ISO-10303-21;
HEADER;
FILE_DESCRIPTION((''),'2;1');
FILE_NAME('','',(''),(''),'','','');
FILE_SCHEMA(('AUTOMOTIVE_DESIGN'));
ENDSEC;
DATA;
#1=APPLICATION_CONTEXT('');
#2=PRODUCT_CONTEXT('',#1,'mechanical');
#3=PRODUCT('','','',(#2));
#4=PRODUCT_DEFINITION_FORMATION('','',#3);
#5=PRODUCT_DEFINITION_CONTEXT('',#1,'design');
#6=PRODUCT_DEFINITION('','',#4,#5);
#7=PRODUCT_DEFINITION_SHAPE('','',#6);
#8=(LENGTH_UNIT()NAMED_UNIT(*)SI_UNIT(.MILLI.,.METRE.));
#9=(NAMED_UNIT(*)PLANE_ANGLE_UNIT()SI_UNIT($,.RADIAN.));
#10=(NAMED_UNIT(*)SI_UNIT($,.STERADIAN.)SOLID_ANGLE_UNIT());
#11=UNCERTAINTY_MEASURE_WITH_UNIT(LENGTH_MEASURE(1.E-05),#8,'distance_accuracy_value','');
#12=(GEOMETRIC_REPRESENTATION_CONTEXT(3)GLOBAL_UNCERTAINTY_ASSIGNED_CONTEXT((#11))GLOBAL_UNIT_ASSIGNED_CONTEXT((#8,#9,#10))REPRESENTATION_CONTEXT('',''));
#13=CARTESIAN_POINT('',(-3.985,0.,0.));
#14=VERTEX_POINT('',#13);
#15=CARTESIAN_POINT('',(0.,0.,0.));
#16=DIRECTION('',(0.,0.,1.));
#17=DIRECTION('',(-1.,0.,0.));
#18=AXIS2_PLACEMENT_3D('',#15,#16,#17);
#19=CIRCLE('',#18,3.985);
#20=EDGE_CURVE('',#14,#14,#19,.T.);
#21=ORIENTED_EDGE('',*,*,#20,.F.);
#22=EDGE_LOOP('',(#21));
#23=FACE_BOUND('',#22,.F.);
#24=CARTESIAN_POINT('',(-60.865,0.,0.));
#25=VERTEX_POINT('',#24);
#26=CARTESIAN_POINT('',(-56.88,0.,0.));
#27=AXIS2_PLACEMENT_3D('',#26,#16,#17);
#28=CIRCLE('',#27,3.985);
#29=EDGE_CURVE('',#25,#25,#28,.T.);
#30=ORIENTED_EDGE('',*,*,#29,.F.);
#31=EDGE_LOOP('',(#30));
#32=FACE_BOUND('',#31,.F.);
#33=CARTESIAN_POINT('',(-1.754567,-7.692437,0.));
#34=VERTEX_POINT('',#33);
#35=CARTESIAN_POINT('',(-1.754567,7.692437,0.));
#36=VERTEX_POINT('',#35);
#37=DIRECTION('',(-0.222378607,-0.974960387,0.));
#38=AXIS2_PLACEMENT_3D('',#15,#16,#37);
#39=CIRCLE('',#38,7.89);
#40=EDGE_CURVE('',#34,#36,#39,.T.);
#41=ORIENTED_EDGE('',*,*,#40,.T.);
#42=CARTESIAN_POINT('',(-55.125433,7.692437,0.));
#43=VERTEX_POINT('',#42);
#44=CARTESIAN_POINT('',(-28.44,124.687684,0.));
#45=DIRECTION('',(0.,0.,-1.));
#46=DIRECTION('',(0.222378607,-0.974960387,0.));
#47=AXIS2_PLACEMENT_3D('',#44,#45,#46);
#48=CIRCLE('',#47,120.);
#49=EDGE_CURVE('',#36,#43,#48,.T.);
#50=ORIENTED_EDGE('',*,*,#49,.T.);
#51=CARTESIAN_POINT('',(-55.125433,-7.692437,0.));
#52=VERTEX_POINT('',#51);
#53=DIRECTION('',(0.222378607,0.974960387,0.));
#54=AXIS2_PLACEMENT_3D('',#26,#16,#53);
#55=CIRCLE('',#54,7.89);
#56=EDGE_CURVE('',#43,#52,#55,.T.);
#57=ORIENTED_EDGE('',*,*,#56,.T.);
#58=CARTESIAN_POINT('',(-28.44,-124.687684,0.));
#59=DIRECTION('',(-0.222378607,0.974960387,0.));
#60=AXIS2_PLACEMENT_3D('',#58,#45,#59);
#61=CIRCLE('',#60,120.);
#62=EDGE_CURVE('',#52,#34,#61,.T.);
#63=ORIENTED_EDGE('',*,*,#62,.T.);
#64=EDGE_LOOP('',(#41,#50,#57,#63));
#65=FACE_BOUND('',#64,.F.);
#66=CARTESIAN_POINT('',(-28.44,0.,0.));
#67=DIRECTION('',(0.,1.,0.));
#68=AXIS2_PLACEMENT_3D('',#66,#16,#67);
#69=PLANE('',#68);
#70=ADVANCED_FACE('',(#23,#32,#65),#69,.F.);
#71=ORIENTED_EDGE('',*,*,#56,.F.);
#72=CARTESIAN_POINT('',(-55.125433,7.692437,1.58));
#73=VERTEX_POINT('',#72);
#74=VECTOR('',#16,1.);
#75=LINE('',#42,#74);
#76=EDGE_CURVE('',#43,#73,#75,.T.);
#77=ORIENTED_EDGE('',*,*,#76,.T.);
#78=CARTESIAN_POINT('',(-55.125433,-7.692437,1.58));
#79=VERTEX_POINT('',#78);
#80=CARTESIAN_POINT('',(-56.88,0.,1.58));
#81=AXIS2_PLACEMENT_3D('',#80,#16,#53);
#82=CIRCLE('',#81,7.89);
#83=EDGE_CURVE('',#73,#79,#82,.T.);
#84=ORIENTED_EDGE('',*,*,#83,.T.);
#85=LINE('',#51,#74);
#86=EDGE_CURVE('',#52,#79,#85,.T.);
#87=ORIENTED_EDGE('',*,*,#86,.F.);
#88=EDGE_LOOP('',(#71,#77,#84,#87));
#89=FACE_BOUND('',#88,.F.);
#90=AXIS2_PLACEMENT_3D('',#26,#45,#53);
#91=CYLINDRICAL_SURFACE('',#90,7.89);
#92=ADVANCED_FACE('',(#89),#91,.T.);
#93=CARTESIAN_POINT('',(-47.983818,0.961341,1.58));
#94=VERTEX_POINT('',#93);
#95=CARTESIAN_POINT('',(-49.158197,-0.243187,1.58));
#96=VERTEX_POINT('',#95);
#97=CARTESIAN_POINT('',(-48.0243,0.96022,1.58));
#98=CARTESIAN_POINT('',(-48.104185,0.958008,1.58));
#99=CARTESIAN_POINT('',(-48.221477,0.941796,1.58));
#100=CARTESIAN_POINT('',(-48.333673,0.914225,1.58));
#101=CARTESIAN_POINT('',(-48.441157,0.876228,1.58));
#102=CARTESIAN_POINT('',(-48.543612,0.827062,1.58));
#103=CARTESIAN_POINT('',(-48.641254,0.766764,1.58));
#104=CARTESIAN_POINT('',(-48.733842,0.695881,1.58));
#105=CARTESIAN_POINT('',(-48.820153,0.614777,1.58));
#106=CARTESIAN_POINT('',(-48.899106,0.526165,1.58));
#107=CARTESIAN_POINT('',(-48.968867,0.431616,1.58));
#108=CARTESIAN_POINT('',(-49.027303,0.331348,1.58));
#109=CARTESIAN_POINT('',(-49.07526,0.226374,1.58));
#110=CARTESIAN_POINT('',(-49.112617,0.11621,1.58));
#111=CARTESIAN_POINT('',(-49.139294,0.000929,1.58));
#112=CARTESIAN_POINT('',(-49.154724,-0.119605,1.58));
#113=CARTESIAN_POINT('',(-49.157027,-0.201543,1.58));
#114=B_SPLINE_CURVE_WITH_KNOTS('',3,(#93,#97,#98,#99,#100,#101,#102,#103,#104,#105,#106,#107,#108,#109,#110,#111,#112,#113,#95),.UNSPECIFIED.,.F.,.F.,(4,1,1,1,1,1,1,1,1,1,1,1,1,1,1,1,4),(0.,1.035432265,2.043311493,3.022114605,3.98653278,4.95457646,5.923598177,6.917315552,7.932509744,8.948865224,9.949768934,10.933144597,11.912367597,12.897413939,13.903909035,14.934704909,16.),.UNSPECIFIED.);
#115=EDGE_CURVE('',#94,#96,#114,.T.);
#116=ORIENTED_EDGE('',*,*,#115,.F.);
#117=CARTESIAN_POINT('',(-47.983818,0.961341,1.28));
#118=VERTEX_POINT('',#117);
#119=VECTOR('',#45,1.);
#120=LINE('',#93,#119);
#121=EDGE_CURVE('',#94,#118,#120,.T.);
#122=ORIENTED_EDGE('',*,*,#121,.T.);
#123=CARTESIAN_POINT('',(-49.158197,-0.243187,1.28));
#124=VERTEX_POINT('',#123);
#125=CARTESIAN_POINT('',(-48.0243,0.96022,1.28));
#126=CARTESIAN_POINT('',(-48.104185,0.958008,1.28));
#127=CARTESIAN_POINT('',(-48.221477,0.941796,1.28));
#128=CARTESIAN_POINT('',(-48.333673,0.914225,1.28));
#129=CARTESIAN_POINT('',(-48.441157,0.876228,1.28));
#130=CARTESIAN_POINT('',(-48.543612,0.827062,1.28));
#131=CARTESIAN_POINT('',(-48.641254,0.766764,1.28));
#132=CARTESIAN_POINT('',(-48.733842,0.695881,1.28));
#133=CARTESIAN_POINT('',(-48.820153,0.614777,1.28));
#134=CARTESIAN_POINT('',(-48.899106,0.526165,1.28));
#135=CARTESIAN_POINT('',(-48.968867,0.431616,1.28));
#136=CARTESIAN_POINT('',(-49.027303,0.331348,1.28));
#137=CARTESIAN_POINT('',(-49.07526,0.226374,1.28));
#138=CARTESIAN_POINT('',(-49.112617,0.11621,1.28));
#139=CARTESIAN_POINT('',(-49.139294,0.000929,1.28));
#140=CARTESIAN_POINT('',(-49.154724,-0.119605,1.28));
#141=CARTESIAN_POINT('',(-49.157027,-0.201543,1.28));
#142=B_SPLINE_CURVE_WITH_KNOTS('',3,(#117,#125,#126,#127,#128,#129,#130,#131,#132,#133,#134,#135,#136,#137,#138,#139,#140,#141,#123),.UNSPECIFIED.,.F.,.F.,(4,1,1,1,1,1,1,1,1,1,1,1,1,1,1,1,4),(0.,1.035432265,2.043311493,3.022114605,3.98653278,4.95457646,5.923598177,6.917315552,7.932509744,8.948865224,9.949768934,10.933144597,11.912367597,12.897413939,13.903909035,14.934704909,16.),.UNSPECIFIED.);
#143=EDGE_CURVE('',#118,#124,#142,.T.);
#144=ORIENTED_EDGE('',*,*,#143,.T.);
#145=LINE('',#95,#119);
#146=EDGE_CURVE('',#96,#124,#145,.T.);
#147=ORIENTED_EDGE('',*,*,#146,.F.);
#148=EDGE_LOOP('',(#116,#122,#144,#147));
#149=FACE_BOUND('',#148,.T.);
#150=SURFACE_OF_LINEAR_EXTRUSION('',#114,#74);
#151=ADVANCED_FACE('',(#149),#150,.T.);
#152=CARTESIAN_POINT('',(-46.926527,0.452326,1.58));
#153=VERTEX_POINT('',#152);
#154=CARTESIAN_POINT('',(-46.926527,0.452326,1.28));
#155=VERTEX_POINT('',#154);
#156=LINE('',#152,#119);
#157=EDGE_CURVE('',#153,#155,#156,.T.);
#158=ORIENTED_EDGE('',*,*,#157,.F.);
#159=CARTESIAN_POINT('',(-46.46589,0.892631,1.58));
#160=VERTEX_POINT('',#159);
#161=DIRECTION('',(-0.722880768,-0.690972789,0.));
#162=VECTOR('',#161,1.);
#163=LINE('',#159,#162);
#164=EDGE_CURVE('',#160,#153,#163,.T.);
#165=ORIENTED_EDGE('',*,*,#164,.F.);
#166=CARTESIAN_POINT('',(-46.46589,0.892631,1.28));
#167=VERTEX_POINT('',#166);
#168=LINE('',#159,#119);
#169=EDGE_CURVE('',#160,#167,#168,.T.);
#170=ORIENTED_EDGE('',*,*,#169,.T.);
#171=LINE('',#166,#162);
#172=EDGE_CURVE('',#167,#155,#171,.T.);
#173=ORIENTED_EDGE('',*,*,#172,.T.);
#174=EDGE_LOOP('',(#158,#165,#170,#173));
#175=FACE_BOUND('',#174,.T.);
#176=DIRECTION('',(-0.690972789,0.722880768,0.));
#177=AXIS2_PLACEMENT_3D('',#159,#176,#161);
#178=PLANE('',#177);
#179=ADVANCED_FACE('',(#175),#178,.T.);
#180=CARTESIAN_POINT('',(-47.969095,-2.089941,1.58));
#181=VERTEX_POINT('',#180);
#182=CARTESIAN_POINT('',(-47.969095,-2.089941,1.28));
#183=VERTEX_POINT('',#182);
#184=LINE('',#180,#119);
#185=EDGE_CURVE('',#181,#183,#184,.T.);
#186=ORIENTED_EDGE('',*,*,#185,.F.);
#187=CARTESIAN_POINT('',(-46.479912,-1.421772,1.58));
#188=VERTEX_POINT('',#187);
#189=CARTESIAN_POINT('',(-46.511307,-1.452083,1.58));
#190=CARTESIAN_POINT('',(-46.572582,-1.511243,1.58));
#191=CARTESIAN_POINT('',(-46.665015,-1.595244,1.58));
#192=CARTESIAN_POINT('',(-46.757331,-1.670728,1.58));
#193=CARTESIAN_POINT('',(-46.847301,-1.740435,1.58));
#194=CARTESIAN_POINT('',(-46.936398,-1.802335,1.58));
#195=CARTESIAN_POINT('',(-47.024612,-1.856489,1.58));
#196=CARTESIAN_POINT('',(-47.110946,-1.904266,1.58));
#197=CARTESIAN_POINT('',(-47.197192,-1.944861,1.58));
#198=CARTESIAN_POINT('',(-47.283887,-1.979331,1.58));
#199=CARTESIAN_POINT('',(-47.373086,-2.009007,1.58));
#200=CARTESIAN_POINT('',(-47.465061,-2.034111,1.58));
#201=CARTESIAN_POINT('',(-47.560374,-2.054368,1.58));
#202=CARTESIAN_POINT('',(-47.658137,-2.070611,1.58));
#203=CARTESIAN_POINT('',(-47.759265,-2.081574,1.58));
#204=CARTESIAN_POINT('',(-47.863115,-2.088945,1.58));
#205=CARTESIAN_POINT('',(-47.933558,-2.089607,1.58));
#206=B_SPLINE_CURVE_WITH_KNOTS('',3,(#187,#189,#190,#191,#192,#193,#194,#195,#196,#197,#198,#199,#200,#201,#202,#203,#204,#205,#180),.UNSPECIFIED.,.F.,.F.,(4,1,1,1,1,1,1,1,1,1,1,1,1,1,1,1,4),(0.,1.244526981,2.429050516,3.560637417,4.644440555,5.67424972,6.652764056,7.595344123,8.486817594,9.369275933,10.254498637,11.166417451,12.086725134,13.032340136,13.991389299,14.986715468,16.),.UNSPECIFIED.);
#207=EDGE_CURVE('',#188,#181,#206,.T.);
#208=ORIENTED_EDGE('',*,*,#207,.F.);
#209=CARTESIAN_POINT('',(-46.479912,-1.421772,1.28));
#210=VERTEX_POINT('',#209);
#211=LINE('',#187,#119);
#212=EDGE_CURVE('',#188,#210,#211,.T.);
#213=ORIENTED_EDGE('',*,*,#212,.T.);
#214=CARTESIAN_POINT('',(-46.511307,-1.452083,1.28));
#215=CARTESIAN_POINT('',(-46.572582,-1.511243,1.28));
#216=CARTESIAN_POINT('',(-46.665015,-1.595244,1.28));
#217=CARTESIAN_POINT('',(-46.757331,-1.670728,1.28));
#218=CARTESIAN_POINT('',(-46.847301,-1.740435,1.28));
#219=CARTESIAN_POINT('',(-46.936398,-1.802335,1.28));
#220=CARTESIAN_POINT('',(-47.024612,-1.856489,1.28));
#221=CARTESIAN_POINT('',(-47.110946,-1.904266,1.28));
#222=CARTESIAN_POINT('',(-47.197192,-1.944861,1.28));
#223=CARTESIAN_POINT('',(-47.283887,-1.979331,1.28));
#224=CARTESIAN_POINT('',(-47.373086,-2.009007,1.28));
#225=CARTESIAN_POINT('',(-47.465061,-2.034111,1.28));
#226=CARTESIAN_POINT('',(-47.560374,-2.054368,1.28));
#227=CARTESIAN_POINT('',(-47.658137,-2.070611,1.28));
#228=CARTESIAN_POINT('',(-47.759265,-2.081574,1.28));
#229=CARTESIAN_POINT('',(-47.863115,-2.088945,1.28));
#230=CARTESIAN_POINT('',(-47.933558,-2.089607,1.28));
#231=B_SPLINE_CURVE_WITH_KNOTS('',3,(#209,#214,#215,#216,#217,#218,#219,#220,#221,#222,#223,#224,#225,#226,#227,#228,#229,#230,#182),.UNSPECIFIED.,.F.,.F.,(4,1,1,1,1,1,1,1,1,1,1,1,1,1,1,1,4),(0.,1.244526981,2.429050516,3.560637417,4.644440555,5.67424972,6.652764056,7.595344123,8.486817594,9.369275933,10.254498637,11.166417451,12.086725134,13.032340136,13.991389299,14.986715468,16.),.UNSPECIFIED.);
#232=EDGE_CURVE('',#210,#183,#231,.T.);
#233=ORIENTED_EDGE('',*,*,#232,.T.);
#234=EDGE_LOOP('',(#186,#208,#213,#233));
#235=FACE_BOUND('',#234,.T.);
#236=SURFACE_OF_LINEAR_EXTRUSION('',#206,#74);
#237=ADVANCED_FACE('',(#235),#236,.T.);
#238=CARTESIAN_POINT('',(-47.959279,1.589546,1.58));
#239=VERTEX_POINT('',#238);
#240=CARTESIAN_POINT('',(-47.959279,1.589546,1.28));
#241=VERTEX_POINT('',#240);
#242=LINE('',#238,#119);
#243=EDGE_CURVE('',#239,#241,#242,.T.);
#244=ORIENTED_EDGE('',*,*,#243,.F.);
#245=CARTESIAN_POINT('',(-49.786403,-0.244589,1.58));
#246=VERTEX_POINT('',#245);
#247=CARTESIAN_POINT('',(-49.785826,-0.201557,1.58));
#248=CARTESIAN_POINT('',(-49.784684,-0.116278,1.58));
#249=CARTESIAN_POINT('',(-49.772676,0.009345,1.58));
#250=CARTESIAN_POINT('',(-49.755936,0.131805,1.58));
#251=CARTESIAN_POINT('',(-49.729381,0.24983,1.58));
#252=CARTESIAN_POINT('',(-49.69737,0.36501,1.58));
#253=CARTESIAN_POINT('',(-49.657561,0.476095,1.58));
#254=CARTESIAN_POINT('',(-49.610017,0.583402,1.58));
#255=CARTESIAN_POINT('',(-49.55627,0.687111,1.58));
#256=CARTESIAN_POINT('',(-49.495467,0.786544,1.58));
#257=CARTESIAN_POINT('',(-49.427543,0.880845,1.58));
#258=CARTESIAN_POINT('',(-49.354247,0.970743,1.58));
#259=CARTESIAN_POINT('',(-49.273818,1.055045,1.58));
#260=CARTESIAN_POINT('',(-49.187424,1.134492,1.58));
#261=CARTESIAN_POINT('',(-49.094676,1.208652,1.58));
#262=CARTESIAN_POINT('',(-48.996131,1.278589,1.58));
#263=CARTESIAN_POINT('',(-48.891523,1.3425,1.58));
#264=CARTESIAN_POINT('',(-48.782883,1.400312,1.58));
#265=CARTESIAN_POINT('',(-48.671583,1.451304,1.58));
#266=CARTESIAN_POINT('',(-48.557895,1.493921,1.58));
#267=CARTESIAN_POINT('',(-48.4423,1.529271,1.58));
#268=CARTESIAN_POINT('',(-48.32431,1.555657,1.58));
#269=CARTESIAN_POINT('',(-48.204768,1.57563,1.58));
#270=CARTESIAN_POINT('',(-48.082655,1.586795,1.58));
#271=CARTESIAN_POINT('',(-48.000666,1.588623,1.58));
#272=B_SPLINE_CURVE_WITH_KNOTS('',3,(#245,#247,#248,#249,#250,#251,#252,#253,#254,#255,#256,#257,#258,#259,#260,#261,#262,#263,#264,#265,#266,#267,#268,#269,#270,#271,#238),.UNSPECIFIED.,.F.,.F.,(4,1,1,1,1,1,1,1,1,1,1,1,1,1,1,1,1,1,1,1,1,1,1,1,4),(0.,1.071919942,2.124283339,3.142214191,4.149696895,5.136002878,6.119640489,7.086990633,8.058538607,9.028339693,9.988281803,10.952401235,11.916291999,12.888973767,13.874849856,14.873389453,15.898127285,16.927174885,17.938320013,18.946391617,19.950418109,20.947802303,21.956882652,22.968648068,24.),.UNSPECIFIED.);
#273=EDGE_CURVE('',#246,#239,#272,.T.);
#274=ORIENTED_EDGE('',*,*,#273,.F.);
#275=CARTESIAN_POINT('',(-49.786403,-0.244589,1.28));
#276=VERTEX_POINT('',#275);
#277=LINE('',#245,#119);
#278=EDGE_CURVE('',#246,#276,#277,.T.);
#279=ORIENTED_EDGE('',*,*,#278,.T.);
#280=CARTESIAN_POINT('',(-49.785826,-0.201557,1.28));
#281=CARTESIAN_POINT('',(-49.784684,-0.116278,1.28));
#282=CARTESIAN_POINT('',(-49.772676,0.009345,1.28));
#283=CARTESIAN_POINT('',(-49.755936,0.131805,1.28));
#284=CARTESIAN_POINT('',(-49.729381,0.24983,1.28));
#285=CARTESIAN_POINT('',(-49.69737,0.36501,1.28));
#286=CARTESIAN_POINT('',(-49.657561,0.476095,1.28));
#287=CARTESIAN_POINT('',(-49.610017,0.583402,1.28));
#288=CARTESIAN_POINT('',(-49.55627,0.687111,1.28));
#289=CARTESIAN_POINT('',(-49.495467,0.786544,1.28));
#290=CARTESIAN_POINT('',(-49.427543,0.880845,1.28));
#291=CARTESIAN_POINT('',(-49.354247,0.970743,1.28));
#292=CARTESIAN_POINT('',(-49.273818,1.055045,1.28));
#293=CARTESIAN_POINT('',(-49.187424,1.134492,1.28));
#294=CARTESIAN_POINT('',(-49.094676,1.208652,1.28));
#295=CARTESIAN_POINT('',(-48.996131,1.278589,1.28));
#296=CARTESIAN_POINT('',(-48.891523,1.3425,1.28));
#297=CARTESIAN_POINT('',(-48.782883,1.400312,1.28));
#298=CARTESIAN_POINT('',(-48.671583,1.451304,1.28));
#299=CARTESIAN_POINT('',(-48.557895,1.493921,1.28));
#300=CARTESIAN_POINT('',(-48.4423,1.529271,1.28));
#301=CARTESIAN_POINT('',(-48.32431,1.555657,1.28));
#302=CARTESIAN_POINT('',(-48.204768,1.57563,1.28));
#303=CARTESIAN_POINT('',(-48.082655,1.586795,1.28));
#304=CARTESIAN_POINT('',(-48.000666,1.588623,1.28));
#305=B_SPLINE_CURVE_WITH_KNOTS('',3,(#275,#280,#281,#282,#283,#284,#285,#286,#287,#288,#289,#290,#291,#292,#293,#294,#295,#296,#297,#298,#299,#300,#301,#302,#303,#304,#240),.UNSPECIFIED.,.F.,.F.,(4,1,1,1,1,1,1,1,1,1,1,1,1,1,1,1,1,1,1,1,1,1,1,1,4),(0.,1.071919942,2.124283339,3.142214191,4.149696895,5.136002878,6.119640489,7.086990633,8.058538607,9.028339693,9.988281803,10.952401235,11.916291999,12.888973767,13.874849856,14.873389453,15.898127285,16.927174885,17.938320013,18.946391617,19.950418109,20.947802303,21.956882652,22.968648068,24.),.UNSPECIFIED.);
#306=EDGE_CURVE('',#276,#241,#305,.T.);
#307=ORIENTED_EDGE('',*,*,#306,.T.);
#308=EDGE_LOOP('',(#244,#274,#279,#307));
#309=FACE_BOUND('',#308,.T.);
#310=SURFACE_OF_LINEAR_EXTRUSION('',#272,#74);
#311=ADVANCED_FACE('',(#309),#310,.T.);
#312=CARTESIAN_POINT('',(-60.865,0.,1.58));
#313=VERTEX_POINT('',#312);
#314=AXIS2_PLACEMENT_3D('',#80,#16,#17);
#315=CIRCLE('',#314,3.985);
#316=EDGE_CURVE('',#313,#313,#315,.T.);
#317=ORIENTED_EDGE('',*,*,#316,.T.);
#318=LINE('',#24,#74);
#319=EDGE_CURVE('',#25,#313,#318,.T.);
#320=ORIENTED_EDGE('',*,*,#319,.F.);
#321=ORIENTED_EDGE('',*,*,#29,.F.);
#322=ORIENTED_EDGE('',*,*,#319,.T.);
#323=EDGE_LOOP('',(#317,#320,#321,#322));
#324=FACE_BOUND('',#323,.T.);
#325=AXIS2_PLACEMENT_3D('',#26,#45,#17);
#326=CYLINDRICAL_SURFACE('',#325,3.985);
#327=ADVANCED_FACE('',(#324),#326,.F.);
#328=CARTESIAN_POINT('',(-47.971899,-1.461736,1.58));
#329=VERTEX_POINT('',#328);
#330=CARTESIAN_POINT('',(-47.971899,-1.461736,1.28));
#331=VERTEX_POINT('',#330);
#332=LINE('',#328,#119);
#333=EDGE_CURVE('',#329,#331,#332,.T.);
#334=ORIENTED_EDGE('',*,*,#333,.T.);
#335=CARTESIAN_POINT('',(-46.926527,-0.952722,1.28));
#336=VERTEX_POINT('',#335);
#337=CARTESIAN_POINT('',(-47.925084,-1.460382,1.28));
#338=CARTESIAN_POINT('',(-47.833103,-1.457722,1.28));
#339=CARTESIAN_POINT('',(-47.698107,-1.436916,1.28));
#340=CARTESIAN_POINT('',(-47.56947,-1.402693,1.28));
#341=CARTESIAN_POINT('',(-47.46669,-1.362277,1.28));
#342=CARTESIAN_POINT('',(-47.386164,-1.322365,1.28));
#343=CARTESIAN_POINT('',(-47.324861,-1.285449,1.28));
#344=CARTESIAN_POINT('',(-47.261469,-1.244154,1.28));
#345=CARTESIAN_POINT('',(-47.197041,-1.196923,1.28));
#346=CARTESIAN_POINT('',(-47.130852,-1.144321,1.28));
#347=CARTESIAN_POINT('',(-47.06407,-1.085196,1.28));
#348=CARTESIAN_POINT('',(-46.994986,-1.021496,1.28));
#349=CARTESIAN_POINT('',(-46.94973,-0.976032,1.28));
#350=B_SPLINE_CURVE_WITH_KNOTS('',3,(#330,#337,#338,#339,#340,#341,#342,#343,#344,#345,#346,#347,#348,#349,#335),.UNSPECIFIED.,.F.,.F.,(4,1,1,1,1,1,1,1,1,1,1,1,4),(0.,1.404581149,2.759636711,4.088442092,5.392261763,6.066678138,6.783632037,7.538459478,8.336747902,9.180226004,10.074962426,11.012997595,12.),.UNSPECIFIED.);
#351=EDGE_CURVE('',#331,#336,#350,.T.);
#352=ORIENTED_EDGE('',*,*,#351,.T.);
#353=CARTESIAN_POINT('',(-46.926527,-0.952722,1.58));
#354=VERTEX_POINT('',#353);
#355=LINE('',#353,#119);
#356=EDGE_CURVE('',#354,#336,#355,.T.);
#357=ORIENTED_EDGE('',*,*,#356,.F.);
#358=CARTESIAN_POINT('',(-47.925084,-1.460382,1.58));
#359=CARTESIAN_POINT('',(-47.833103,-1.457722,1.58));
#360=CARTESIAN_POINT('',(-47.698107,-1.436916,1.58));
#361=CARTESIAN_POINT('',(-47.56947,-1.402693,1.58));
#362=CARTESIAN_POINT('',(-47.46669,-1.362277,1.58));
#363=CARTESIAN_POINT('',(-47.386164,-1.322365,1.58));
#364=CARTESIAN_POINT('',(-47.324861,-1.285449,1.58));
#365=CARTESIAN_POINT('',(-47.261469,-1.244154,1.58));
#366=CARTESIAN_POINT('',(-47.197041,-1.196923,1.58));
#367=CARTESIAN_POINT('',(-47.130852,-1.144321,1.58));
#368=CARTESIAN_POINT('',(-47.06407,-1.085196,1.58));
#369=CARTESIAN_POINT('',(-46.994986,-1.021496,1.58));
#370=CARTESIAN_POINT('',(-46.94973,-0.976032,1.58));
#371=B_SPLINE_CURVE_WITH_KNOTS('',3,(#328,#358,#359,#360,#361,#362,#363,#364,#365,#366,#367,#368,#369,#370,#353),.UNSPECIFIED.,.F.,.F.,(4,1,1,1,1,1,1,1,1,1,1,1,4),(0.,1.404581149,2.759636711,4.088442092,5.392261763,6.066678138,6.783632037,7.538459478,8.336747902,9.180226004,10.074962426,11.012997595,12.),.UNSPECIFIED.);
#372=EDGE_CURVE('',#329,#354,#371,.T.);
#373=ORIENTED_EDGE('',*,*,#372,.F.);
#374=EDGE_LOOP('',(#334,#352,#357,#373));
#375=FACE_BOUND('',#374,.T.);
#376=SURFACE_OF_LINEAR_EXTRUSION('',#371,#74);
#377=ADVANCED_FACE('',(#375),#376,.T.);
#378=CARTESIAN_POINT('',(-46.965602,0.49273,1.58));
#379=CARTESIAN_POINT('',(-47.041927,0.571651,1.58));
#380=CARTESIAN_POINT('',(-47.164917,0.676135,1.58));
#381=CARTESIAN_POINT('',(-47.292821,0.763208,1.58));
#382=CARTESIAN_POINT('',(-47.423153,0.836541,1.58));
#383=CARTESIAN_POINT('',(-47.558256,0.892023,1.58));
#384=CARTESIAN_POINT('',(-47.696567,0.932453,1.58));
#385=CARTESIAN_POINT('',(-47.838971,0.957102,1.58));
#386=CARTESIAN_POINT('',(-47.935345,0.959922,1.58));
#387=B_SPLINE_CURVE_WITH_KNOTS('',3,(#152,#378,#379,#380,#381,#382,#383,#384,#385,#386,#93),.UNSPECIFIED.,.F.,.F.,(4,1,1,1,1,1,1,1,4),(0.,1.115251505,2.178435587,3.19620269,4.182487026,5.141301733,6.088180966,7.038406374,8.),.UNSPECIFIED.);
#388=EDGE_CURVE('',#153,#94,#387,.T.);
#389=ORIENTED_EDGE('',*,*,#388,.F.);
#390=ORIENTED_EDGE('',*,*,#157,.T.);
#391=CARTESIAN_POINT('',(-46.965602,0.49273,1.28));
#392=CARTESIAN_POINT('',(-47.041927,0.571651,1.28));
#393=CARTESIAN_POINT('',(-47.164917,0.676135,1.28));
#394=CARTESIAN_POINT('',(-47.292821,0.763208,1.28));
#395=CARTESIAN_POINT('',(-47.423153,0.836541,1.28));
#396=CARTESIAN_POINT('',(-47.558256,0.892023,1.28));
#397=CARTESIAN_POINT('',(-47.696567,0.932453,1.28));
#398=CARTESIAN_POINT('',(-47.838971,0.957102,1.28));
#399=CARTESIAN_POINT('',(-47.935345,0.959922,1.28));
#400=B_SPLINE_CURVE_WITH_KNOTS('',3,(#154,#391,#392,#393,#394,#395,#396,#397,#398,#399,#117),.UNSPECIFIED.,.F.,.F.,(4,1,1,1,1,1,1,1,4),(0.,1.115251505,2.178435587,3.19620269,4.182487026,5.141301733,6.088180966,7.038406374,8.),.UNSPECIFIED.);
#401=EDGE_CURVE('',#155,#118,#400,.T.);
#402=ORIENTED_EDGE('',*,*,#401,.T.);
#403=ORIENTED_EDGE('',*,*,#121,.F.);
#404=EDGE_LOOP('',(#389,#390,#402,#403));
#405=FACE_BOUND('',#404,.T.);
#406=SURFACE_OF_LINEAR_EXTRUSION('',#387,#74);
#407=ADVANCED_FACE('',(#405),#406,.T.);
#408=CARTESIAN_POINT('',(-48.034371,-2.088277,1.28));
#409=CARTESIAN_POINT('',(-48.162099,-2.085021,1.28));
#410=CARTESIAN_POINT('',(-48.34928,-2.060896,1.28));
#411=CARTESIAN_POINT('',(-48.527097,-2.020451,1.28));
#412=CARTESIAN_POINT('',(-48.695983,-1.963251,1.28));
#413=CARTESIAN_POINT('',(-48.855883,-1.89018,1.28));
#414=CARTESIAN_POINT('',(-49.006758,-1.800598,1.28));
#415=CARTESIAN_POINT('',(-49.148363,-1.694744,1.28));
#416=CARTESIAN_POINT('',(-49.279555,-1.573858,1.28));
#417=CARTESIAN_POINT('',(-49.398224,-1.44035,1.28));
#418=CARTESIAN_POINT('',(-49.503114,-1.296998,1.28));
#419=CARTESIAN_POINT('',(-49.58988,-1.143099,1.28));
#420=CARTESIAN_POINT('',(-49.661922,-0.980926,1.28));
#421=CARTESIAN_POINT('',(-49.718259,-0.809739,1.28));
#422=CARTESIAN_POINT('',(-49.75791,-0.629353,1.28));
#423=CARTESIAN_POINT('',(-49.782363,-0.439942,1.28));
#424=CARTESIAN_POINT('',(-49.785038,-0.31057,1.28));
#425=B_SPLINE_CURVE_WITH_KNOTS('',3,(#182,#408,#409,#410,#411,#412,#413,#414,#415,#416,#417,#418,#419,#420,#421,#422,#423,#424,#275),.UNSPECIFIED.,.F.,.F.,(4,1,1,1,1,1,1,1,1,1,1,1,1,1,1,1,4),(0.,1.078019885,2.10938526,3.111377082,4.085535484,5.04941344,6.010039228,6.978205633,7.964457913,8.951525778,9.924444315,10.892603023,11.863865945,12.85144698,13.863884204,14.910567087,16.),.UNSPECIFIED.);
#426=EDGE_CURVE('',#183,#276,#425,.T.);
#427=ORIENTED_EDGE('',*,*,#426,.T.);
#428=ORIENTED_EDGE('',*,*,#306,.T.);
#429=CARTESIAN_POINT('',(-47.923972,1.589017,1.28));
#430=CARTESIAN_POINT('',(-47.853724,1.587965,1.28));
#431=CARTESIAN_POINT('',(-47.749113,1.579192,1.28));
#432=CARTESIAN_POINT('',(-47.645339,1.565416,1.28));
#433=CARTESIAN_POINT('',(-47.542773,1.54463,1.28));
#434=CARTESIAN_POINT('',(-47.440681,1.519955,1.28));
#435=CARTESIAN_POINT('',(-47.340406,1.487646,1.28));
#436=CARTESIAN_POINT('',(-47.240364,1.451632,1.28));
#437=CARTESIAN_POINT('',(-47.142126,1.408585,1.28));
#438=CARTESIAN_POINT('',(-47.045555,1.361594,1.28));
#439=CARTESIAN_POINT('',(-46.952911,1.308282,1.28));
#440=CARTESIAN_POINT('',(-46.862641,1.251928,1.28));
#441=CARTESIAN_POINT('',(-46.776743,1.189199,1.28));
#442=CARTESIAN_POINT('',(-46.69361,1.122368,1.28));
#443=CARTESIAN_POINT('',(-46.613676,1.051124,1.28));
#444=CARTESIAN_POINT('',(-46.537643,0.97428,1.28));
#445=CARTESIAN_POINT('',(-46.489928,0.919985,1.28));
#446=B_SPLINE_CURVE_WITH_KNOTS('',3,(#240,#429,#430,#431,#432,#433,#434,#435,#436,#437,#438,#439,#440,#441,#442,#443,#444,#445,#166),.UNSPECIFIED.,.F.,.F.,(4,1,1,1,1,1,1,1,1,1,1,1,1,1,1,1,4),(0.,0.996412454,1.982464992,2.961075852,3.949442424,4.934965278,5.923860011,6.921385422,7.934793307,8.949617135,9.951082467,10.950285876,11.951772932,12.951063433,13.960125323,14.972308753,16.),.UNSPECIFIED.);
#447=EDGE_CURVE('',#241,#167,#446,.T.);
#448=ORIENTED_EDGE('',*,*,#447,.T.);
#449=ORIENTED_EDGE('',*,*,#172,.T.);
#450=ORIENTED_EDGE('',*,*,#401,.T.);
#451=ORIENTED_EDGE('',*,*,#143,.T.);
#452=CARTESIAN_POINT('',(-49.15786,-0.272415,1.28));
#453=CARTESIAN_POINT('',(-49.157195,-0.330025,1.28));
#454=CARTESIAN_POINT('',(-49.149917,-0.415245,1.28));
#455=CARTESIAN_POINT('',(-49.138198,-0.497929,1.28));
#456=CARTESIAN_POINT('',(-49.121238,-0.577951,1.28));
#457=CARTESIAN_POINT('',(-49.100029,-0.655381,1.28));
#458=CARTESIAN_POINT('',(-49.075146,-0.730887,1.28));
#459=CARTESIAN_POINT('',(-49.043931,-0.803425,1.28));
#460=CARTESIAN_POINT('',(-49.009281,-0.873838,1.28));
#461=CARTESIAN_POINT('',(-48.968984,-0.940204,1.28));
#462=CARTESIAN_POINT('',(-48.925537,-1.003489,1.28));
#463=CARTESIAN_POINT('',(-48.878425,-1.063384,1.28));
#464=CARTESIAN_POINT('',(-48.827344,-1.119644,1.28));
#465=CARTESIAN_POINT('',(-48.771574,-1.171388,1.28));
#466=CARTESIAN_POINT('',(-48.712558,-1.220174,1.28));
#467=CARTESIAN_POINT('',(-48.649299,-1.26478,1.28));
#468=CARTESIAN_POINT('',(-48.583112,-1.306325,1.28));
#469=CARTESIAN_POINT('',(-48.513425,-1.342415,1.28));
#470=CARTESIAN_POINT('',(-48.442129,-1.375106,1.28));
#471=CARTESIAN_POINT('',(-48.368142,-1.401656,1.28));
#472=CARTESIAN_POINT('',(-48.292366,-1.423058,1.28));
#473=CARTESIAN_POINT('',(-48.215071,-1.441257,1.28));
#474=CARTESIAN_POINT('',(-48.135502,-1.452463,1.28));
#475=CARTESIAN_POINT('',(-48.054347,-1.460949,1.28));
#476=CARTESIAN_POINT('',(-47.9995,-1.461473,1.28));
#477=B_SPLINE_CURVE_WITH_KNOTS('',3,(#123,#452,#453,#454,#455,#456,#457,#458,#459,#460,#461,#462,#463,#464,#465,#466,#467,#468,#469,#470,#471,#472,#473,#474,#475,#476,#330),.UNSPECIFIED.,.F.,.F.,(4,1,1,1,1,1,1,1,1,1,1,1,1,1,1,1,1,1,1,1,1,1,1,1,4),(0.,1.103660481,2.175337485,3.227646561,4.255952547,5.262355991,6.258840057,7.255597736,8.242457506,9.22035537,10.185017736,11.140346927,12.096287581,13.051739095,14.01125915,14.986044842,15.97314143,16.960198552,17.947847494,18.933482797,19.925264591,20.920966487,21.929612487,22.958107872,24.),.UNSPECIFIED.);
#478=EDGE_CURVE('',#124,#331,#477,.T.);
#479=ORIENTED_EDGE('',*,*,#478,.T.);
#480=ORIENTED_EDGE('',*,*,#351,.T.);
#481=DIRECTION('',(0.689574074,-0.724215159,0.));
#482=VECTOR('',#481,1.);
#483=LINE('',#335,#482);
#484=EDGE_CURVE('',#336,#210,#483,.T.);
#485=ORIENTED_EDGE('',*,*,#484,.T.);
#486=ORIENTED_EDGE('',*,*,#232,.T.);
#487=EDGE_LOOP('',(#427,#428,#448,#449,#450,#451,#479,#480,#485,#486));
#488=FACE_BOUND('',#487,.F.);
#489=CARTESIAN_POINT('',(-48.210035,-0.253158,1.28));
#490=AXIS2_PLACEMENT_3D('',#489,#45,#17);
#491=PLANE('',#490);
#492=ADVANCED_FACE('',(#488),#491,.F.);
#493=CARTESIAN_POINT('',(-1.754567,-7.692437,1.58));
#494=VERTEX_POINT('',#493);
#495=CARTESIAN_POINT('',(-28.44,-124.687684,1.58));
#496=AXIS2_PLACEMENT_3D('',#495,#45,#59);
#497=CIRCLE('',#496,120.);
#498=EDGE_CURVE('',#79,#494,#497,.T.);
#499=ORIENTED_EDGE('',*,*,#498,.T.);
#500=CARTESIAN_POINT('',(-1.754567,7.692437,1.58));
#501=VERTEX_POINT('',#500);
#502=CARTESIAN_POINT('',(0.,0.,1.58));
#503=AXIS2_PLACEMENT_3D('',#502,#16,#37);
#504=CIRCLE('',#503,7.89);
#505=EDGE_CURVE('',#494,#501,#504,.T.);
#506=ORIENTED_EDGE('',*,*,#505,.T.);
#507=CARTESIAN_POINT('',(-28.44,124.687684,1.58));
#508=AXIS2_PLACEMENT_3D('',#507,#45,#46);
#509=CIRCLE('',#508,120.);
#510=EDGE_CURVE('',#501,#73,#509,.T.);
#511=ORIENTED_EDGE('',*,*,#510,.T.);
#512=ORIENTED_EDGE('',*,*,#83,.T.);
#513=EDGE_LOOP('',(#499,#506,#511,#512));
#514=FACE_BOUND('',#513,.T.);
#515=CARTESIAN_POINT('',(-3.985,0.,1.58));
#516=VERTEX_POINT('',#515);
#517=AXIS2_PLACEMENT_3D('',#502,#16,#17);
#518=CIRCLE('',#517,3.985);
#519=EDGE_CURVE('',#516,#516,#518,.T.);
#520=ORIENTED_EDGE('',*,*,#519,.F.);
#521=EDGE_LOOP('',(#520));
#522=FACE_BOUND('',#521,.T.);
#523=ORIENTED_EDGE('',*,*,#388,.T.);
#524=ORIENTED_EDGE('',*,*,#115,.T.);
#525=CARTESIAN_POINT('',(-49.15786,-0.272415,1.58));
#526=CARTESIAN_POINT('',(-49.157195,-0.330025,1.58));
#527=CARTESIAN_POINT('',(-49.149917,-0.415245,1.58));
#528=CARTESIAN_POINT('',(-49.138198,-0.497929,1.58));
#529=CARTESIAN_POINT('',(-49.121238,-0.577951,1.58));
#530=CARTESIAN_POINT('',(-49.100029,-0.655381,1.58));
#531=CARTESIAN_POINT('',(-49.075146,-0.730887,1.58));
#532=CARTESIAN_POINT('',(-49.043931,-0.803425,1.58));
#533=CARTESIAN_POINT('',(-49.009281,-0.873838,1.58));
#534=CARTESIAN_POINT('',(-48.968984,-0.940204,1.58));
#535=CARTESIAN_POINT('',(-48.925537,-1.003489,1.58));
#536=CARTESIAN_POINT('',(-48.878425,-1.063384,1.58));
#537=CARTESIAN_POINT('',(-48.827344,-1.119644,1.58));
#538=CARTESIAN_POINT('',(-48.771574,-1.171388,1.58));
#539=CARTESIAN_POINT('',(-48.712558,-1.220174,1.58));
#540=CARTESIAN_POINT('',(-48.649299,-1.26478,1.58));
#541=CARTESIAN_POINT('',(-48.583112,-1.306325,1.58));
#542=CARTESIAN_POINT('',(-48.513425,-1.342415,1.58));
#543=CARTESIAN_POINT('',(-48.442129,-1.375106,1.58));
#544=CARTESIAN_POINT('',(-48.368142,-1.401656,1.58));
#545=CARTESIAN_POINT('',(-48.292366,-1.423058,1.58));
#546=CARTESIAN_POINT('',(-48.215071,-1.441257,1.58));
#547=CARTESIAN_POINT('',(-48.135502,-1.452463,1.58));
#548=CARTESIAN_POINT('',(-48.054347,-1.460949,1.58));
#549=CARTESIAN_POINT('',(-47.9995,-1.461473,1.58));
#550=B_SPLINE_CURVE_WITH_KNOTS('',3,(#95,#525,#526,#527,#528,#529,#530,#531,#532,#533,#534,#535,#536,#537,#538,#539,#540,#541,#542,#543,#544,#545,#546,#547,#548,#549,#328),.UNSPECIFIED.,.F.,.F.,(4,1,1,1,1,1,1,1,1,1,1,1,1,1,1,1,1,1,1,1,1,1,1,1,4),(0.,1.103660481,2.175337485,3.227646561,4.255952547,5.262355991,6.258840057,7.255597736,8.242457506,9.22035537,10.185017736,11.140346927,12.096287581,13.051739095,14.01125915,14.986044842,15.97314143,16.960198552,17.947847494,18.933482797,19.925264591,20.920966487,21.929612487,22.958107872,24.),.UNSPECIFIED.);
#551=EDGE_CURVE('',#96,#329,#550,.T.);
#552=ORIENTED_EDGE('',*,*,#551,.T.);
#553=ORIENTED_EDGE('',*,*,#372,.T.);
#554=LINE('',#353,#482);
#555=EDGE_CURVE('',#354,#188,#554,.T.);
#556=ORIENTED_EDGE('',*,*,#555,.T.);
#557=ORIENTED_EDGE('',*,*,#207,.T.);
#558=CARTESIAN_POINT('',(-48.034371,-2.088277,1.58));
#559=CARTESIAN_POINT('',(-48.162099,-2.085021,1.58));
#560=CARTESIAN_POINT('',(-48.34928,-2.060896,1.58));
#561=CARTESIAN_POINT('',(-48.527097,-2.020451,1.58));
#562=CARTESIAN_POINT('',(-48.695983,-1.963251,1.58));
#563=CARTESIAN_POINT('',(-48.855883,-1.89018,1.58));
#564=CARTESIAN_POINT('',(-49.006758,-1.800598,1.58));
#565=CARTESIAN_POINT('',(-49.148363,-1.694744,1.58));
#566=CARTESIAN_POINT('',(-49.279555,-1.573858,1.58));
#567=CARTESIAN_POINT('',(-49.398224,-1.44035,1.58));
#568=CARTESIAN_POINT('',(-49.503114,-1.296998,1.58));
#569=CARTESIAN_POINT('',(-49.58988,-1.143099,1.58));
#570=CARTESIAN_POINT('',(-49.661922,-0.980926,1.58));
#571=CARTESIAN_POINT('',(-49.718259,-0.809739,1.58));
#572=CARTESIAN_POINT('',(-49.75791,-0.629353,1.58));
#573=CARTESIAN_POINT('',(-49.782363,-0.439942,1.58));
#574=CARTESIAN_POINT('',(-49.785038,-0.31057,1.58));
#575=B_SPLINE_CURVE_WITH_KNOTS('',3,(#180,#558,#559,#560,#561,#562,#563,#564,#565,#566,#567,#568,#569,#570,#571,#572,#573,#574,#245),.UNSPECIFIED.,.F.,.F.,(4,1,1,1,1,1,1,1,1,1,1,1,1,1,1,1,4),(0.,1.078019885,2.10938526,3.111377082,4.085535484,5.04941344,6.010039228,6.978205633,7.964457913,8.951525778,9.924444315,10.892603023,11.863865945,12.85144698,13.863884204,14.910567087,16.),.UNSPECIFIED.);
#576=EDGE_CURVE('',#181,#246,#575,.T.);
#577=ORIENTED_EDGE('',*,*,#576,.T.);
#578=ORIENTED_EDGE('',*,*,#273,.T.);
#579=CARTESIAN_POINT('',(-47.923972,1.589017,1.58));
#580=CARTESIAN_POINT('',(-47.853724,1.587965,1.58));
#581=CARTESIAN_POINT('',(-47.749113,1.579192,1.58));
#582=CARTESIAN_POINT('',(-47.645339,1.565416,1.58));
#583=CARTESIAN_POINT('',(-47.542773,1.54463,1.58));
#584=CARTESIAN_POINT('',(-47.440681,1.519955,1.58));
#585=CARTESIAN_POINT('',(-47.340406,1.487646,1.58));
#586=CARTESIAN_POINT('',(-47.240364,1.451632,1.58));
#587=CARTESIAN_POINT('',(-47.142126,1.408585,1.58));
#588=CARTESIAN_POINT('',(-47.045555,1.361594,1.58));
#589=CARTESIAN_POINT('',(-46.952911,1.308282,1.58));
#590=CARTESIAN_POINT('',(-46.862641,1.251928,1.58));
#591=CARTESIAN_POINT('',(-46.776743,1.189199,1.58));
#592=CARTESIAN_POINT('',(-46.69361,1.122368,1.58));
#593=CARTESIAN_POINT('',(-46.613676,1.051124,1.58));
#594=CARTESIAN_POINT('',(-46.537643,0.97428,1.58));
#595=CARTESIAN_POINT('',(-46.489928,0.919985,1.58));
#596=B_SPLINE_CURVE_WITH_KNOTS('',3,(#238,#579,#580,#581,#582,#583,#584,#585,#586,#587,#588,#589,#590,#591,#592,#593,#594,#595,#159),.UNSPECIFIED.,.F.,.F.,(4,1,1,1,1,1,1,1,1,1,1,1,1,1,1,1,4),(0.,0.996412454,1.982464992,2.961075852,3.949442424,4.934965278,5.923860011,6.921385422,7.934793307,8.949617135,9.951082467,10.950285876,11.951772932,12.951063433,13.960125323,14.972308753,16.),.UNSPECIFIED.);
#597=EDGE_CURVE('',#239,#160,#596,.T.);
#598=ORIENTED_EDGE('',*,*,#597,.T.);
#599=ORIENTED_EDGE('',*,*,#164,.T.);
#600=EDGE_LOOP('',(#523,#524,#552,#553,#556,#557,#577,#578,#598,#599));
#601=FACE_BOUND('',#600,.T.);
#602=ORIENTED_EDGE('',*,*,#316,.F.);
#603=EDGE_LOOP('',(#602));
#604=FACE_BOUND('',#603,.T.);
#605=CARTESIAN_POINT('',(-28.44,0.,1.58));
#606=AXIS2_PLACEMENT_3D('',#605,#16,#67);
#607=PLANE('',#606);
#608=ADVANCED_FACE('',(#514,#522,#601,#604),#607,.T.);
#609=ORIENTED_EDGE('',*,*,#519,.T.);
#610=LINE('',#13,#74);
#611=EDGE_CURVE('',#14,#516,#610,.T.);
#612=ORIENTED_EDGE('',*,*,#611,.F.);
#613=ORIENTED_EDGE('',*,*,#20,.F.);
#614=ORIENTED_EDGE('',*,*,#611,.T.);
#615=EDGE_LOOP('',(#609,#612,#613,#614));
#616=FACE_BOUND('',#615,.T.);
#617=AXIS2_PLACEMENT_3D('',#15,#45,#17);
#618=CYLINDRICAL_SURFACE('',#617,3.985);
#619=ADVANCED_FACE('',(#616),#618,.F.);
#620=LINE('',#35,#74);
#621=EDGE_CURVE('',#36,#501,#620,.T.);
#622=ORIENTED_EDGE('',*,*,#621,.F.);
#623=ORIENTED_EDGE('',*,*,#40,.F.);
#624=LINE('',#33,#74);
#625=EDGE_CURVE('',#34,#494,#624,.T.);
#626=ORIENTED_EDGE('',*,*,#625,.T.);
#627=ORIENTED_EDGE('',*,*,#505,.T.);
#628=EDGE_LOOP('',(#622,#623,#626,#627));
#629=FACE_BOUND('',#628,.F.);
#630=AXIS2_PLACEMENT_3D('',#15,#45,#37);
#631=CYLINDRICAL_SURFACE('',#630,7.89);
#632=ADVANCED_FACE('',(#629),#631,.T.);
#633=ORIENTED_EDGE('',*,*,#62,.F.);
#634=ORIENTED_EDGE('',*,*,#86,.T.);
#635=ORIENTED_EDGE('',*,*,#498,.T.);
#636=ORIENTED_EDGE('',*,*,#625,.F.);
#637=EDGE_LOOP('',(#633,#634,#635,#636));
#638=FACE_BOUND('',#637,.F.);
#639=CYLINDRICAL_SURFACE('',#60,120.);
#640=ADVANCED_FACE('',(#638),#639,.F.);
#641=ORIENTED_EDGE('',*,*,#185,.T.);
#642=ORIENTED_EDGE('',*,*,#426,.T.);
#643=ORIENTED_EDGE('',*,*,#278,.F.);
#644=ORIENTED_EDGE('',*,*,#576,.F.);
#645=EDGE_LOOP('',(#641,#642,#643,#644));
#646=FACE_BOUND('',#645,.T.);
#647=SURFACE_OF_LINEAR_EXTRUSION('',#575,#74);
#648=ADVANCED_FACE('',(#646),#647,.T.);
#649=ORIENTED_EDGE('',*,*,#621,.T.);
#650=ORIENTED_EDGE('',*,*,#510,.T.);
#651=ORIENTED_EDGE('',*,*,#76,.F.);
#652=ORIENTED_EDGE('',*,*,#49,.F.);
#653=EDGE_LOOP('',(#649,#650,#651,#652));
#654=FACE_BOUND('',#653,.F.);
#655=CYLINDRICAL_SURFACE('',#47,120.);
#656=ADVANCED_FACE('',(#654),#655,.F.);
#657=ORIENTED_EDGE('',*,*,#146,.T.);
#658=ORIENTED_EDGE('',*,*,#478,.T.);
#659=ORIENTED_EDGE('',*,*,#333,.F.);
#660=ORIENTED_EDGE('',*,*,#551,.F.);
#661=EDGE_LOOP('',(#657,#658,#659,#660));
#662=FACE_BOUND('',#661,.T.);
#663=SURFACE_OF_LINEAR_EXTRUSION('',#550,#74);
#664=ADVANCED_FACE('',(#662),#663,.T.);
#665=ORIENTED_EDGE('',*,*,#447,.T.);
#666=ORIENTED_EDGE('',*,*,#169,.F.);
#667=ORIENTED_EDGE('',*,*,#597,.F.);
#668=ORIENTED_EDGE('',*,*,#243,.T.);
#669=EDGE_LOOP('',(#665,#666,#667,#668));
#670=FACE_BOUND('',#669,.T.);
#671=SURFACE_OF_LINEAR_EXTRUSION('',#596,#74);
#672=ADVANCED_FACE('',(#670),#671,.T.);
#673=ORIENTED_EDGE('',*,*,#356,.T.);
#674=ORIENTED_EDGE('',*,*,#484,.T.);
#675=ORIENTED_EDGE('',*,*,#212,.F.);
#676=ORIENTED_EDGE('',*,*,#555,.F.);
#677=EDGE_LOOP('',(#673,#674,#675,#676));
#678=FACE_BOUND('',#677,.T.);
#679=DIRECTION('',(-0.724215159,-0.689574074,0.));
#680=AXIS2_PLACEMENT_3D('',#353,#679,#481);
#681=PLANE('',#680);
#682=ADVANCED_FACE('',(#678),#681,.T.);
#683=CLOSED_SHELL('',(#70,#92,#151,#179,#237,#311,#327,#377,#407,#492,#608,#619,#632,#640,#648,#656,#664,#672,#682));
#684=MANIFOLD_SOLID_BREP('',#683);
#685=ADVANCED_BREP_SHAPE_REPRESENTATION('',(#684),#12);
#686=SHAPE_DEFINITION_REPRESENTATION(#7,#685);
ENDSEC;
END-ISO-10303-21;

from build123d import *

# Parameters (mm, degrees)
ESQUISSE1_R             = 3.985
BOSS_EXTRU_1_DEPTH      = 1.58
ENL_V_MAT_EXTRU_1_DEPTH = 0.3


with BuildPart() as part:
    # Esquisse1 → Boss.-Extru.1 (new body)
    with BuildSketch(Plane(origin=(0, 0, 0), x_dir=(0, 1, 0), z_dir=(0, 0, 1))):
        with BuildLine():
            ThreePointArc((-7.69243745, 1.754567206), (0, -7.89), (7.69243745, 1.754567206))
            ThreePointArc((7.69243745, 1.754567206), (4.687683834, 28.44), (7.69243745, 55.125432794))
            ThreePointArc((7.69243745, 55.125432794), (0, 64.77), (-7.69243745, 55.125432794))
            ThreePointArc((-7.69243745, 55.125432794), (-4.687683834, 28.44), (-7.69243745, 1.754567206))
        make_face()
        with Locations(Location((0, 0, 0), (0, 0, 90))):
            Circle(ESQUISSE1_R, mode=Mode.SUBTRACT)
        with Locations(Location((0, 56.88, 0), (0, 0, 90))):
            Circle(ESQUISSE1_R, mode=Mode.SUBTRACT)
    extrude(amount=BOSS_EXTRU_1_DEPTH)

    # Esquisse2 → Enlèv. mat.-Extru.1 (cut)
    with BuildSketch(Plane.XY.offset(1.58)):
        with BuildLine():
            Line((-46.465889749, 0.892630637), (-46.926526768, 0.45232615))
            add(Edge.make_bspline(
                [(-46.926526768, 0.45232615), (-46.965601753, 0.49272975), (-47.04192744, 0.571650638), (-47.164916845, 0.676134939), (-47.292821348, 0.763208466), (-47.423152822, 0.836541237), (-47.558255553, 0.892022704), (-47.696567385, 0.932452984), (-47.838971481, 0.957101797), (-47.935345095, 0.959922058), (-47.983818435, 0.961340573)],
                knots=[0, 0, 0, 0, 1.115251505, 2.178435587, 3.19620269, 4.182487026, 5.141301733, 6.088180966, 7.038406374, 8, 8, 8, 8], degree=3))
            add(Edge.make_bspline(
                [(-47.983818435, 0.961340573), (-48.024299564, 0.960219896), (-48.104184612, 0.958008364), (-48.221476797, 0.941795654), (-48.333672834, 0.914225235), (-48.441156787, 0.87622809), (-48.543612381, 0.827061802), (-48.641254426, 0.766764423), (-48.73384219, 0.695880524), (-48.820152642, 0.614776863), (-48.89910641, 0.526165019), (-48.968867091, 0.431616392), (-49.027302852, 0.331347589), (-49.075260131, 0.226374058), (-49.112616997, 0.11620993), (-49.139294493, 0.000929371), (-49.154724043, -0.119604909), (-49.157027007, -0.201543214), (-49.158197441, -0.243186671)],
                knots=[0, 0, 0, 0, 1.035432265, 2.043311493, 3.022114605, 3.98653278, 4.95457646, 5.923598177, 6.917315552, 7.932509744, 8.948865224, 9.949768934, 10.933144597, 11.912367597, 12.897413939, 13.903909035, 14.934704909, 16, 16, 16, 16], degree=3))
            add(Edge.make_bspline(
                [(-49.158197441, -0.243186671), (-49.157860135, -0.272414963), (-49.157195299, -0.330024526), (-49.149917488, -0.41524506), (-49.138198495, -0.497929125), (-49.12123821, -0.577951477), (-49.100029206, -0.655381463), (-49.075146216, -0.730887069), (-49.04393087, -0.803424977), (-49.009281366, -0.873837667), (-48.968984392, -0.940203842), (-48.925536819, -1.003489497), (-48.878425021, -1.063384413), (-48.82734385, -1.119643738), (-48.771574403, -1.171388264), (-48.712558114, -1.220174011), (-48.64929946, -1.264779706), (-48.583112483, -1.306324779), (-48.513425411, -1.342415337), (-48.442129016, -1.37510641), (-48.368142301, -1.401656422), (-48.292366099, -1.423058153), (-48.215071208, -1.44125713), (-48.13550161, -1.452462799), (-48.054347076, -1.460948721), (-47.999500233, -1.461472677), (-47.971899364, -1.46173635)],
                knots=[0, 0, 0, 0, 1.103660481, 2.175337485, 3.227646561, 4.255952547, 5.262355991, 6.258840057, 7.255597736, 8.242457506, 9.22035537, 10.185017736, 11.140346927, 12.096287581, 13.051739095, 14.01125915, 14.986044842, 15.97314143, 16.960198552, 17.947847494, 18.933482797, 19.925264591, 20.920966487, 21.929612487, 22.958107872, 24, 24, 24, 24], degree=3))
            add(Edge.make_bspline(
                [(-47.971899364, -1.46173635), (-47.925083547, -1.460382188), (-47.833102641, -1.457721612), (-47.698107435, -1.436916285), (-47.569470453, -1.4026927), (-47.46669012, -1.362276634), (-47.386164443, -1.322365244), (-47.324861437, -1.285449174), (-47.261469349, -1.244154496), (-47.197041071, -1.196922705), (-47.130851909, -1.144320601), (-47.064070258, -1.0851961), (-46.994986493, -1.021496087), (-46.949730403, -0.976032136), (-46.926526768, -0.952721927)],
                knots=[0, 0, 0, 0, 1.404581149, 2.759636711, 4.088442092, 5.392261763, 6.066678138, 6.783632037, 7.538459478, 8.336747902, 9.180226004, 10.074962426, 11.012997595, 12, 12, 12, 12], degree=3))
            Line((-46.926526768, -0.952721927), (-46.479912185, -1.421772408))
            add(Edge.make_bspline(
                [(-46.479912185, -1.421772408), (-46.511306786, -1.45208291), (-46.572582334, -1.511242527), (-46.665014796, -1.595243664), (-46.757330929, -1.670728023), (-46.847300567, -1.740435357), (-46.936397505, -1.80233492), (-47.024612296, -1.856488534), (-47.11094631, -1.90426582), (-47.197192299, -1.94486104), (-47.283886932, -1.979330597), (-47.373085521, -2.009006624), (-47.465060755, -2.034111475), (-47.560374377, -2.054367792), (-47.658137358, -2.070610624), (-47.759264632, -2.081574442), (-47.863115, -2.088945052), (-47.933558314, -2.089607362), (-47.969094877, -2.089941478)],
                knots=[0, 0, 0, 0, 1.244526981, 2.429050516, 3.560637417, 4.644440555, 5.67424972, 6.652764056, 7.595344123, 8.486817594, 9.369275933, 10.254498637, 11.166417451, 12.086725134, 13.032340136, 13.991389299, 14.986715468, 16, 16, 16, 16], degree=3))
            add(Edge.make_bspline(
                [(-47.969094877, -2.089941478), (-48.034371141, -2.088277456), (-48.162098645, -2.085021427), (-48.349279971, -2.060896459), (-48.527097207, -2.020451373), (-48.695982948, -1.963250867), (-48.855883492, -1.890179901), (-49.006757933, -1.800598328), (-49.148363093, -1.694744151), (-49.279555082, -1.573858086), (-49.39822448, -1.440349574), (-49.503114485, -1.29699806), (-49.589879501, -1.143099023), (-49.661922363, -0.980926042), (-49.718258934, -0.809739061), (-49.75791033, -0.629352906), (-49.782363056, -0.439941752), (-49.785038219, -0.310569568), (-49.786402569, -0.244588914)],
                knots=[0, 0, 0, 0, 1.078019885, 2.10938526, 3.111377082, 4.085535484, 5.04941344, 6.010039228, 6.978205633, 7.964457913, 8.951525778, 9.924444315, 10.892603023, 11.863865945, 12.85144698, 13.863884204, 14.910567087, 16, 16, 16, 16], degree=3))
            add(Edge.make_bspline(
                [(-49.786402569, -0.244588914), (-49.785826061, -0.201556895), (-49.784683562, -0.11627795), (-49.772675795, 0.009344844), (-49.755936269, 0.131804598), (-49.729380533, 0.249829774), (-49.697370213, 0.365010388), (-49.657561174, 0.476094562), (-49.610016997, 0.583401563), (-49.556270142, 0.687111029), (-49.495466864, 0.786543551), (-49.427542926, 0.880844849), (-49.354246958, 0.97074291), (-49.273817774, 1.05504507), (-49.187424118, 1.134491518), (-49.094675932, 1.20865172), (-48.99613105, 1.278589214), (-48.891522746, 1.342500485), (-48.782883283, 1.400311626), (-48.671582889, 1.451303521), (-48.557895017, 1.493921003), (-48.442300349, 1.529270632), (-48.324310499, 1.555656631), (-48.204767649, 1.57562998), (-48.082654633, 1.586795211), (-48.000666322, 1.58862303), (-47.959279172, 1.589545701)],
                knots=[0, 0, 0, 0, 1.071919942, 2.124283339, 3.142214191, 4.149696895, 5.136002878, 6.119640489, 7.086990633, 8.058538607, 9.028339693, 9.988281803, 10.952401235, 11.916291999, 12.888973767, 13.874849856, 14.873389453, 15.898127285, 16.927174885, 17.938320013, 18.946391617, 19.950418109, 20.947802303, 21.956882652, 22.968648068, 24, 24, 24, 24], degree=3))
            add(Edge.make_bspline(
                [(-47.959279172, 1.589545701), (-47.92397169, 1.589016803), (-47.853723825, 1.587964506), (-47.749112966, 1.579192466), (-47.645338735, 1.565416065), (-47.542772677, 1.54463041), (-47.440681134, 1.51995521), (-47.340405703, 1.487646441), (-47.240364486, 1.451632228), (-47.142126479, 1.408584591), (-47.045554557, 1.361594206), (-46.95291107, 1.308281908), (-46.862640542, 1.251928476), (-46.776743314, 1.189198667), (-46.693610345, 1.122367809), (-46.613676346, 1.051124096), (-46.537642783, 0.974279688), (-46.489928341, 0.919984577), (-46.465889749, 0.892630637)],
                knots=[0, 0, 0, 0, 0.996412454, 1.982464992, 2.961075852, 3.949442424, 4.934965278, 5.923860011, 6.921385422, 7.934793307, 8.949617135, 9.951082467, 10.950285876, 11.951772932, 12.951063433, 13.960125323, 14.972308753, 16, 16, 16, 16], degree=3))
        make_face()
    extrude(amount=-ENL_V_MAT_EXTRU_1_DEPTH, mode=Mode.SUBTRACT)


solid = part.part
